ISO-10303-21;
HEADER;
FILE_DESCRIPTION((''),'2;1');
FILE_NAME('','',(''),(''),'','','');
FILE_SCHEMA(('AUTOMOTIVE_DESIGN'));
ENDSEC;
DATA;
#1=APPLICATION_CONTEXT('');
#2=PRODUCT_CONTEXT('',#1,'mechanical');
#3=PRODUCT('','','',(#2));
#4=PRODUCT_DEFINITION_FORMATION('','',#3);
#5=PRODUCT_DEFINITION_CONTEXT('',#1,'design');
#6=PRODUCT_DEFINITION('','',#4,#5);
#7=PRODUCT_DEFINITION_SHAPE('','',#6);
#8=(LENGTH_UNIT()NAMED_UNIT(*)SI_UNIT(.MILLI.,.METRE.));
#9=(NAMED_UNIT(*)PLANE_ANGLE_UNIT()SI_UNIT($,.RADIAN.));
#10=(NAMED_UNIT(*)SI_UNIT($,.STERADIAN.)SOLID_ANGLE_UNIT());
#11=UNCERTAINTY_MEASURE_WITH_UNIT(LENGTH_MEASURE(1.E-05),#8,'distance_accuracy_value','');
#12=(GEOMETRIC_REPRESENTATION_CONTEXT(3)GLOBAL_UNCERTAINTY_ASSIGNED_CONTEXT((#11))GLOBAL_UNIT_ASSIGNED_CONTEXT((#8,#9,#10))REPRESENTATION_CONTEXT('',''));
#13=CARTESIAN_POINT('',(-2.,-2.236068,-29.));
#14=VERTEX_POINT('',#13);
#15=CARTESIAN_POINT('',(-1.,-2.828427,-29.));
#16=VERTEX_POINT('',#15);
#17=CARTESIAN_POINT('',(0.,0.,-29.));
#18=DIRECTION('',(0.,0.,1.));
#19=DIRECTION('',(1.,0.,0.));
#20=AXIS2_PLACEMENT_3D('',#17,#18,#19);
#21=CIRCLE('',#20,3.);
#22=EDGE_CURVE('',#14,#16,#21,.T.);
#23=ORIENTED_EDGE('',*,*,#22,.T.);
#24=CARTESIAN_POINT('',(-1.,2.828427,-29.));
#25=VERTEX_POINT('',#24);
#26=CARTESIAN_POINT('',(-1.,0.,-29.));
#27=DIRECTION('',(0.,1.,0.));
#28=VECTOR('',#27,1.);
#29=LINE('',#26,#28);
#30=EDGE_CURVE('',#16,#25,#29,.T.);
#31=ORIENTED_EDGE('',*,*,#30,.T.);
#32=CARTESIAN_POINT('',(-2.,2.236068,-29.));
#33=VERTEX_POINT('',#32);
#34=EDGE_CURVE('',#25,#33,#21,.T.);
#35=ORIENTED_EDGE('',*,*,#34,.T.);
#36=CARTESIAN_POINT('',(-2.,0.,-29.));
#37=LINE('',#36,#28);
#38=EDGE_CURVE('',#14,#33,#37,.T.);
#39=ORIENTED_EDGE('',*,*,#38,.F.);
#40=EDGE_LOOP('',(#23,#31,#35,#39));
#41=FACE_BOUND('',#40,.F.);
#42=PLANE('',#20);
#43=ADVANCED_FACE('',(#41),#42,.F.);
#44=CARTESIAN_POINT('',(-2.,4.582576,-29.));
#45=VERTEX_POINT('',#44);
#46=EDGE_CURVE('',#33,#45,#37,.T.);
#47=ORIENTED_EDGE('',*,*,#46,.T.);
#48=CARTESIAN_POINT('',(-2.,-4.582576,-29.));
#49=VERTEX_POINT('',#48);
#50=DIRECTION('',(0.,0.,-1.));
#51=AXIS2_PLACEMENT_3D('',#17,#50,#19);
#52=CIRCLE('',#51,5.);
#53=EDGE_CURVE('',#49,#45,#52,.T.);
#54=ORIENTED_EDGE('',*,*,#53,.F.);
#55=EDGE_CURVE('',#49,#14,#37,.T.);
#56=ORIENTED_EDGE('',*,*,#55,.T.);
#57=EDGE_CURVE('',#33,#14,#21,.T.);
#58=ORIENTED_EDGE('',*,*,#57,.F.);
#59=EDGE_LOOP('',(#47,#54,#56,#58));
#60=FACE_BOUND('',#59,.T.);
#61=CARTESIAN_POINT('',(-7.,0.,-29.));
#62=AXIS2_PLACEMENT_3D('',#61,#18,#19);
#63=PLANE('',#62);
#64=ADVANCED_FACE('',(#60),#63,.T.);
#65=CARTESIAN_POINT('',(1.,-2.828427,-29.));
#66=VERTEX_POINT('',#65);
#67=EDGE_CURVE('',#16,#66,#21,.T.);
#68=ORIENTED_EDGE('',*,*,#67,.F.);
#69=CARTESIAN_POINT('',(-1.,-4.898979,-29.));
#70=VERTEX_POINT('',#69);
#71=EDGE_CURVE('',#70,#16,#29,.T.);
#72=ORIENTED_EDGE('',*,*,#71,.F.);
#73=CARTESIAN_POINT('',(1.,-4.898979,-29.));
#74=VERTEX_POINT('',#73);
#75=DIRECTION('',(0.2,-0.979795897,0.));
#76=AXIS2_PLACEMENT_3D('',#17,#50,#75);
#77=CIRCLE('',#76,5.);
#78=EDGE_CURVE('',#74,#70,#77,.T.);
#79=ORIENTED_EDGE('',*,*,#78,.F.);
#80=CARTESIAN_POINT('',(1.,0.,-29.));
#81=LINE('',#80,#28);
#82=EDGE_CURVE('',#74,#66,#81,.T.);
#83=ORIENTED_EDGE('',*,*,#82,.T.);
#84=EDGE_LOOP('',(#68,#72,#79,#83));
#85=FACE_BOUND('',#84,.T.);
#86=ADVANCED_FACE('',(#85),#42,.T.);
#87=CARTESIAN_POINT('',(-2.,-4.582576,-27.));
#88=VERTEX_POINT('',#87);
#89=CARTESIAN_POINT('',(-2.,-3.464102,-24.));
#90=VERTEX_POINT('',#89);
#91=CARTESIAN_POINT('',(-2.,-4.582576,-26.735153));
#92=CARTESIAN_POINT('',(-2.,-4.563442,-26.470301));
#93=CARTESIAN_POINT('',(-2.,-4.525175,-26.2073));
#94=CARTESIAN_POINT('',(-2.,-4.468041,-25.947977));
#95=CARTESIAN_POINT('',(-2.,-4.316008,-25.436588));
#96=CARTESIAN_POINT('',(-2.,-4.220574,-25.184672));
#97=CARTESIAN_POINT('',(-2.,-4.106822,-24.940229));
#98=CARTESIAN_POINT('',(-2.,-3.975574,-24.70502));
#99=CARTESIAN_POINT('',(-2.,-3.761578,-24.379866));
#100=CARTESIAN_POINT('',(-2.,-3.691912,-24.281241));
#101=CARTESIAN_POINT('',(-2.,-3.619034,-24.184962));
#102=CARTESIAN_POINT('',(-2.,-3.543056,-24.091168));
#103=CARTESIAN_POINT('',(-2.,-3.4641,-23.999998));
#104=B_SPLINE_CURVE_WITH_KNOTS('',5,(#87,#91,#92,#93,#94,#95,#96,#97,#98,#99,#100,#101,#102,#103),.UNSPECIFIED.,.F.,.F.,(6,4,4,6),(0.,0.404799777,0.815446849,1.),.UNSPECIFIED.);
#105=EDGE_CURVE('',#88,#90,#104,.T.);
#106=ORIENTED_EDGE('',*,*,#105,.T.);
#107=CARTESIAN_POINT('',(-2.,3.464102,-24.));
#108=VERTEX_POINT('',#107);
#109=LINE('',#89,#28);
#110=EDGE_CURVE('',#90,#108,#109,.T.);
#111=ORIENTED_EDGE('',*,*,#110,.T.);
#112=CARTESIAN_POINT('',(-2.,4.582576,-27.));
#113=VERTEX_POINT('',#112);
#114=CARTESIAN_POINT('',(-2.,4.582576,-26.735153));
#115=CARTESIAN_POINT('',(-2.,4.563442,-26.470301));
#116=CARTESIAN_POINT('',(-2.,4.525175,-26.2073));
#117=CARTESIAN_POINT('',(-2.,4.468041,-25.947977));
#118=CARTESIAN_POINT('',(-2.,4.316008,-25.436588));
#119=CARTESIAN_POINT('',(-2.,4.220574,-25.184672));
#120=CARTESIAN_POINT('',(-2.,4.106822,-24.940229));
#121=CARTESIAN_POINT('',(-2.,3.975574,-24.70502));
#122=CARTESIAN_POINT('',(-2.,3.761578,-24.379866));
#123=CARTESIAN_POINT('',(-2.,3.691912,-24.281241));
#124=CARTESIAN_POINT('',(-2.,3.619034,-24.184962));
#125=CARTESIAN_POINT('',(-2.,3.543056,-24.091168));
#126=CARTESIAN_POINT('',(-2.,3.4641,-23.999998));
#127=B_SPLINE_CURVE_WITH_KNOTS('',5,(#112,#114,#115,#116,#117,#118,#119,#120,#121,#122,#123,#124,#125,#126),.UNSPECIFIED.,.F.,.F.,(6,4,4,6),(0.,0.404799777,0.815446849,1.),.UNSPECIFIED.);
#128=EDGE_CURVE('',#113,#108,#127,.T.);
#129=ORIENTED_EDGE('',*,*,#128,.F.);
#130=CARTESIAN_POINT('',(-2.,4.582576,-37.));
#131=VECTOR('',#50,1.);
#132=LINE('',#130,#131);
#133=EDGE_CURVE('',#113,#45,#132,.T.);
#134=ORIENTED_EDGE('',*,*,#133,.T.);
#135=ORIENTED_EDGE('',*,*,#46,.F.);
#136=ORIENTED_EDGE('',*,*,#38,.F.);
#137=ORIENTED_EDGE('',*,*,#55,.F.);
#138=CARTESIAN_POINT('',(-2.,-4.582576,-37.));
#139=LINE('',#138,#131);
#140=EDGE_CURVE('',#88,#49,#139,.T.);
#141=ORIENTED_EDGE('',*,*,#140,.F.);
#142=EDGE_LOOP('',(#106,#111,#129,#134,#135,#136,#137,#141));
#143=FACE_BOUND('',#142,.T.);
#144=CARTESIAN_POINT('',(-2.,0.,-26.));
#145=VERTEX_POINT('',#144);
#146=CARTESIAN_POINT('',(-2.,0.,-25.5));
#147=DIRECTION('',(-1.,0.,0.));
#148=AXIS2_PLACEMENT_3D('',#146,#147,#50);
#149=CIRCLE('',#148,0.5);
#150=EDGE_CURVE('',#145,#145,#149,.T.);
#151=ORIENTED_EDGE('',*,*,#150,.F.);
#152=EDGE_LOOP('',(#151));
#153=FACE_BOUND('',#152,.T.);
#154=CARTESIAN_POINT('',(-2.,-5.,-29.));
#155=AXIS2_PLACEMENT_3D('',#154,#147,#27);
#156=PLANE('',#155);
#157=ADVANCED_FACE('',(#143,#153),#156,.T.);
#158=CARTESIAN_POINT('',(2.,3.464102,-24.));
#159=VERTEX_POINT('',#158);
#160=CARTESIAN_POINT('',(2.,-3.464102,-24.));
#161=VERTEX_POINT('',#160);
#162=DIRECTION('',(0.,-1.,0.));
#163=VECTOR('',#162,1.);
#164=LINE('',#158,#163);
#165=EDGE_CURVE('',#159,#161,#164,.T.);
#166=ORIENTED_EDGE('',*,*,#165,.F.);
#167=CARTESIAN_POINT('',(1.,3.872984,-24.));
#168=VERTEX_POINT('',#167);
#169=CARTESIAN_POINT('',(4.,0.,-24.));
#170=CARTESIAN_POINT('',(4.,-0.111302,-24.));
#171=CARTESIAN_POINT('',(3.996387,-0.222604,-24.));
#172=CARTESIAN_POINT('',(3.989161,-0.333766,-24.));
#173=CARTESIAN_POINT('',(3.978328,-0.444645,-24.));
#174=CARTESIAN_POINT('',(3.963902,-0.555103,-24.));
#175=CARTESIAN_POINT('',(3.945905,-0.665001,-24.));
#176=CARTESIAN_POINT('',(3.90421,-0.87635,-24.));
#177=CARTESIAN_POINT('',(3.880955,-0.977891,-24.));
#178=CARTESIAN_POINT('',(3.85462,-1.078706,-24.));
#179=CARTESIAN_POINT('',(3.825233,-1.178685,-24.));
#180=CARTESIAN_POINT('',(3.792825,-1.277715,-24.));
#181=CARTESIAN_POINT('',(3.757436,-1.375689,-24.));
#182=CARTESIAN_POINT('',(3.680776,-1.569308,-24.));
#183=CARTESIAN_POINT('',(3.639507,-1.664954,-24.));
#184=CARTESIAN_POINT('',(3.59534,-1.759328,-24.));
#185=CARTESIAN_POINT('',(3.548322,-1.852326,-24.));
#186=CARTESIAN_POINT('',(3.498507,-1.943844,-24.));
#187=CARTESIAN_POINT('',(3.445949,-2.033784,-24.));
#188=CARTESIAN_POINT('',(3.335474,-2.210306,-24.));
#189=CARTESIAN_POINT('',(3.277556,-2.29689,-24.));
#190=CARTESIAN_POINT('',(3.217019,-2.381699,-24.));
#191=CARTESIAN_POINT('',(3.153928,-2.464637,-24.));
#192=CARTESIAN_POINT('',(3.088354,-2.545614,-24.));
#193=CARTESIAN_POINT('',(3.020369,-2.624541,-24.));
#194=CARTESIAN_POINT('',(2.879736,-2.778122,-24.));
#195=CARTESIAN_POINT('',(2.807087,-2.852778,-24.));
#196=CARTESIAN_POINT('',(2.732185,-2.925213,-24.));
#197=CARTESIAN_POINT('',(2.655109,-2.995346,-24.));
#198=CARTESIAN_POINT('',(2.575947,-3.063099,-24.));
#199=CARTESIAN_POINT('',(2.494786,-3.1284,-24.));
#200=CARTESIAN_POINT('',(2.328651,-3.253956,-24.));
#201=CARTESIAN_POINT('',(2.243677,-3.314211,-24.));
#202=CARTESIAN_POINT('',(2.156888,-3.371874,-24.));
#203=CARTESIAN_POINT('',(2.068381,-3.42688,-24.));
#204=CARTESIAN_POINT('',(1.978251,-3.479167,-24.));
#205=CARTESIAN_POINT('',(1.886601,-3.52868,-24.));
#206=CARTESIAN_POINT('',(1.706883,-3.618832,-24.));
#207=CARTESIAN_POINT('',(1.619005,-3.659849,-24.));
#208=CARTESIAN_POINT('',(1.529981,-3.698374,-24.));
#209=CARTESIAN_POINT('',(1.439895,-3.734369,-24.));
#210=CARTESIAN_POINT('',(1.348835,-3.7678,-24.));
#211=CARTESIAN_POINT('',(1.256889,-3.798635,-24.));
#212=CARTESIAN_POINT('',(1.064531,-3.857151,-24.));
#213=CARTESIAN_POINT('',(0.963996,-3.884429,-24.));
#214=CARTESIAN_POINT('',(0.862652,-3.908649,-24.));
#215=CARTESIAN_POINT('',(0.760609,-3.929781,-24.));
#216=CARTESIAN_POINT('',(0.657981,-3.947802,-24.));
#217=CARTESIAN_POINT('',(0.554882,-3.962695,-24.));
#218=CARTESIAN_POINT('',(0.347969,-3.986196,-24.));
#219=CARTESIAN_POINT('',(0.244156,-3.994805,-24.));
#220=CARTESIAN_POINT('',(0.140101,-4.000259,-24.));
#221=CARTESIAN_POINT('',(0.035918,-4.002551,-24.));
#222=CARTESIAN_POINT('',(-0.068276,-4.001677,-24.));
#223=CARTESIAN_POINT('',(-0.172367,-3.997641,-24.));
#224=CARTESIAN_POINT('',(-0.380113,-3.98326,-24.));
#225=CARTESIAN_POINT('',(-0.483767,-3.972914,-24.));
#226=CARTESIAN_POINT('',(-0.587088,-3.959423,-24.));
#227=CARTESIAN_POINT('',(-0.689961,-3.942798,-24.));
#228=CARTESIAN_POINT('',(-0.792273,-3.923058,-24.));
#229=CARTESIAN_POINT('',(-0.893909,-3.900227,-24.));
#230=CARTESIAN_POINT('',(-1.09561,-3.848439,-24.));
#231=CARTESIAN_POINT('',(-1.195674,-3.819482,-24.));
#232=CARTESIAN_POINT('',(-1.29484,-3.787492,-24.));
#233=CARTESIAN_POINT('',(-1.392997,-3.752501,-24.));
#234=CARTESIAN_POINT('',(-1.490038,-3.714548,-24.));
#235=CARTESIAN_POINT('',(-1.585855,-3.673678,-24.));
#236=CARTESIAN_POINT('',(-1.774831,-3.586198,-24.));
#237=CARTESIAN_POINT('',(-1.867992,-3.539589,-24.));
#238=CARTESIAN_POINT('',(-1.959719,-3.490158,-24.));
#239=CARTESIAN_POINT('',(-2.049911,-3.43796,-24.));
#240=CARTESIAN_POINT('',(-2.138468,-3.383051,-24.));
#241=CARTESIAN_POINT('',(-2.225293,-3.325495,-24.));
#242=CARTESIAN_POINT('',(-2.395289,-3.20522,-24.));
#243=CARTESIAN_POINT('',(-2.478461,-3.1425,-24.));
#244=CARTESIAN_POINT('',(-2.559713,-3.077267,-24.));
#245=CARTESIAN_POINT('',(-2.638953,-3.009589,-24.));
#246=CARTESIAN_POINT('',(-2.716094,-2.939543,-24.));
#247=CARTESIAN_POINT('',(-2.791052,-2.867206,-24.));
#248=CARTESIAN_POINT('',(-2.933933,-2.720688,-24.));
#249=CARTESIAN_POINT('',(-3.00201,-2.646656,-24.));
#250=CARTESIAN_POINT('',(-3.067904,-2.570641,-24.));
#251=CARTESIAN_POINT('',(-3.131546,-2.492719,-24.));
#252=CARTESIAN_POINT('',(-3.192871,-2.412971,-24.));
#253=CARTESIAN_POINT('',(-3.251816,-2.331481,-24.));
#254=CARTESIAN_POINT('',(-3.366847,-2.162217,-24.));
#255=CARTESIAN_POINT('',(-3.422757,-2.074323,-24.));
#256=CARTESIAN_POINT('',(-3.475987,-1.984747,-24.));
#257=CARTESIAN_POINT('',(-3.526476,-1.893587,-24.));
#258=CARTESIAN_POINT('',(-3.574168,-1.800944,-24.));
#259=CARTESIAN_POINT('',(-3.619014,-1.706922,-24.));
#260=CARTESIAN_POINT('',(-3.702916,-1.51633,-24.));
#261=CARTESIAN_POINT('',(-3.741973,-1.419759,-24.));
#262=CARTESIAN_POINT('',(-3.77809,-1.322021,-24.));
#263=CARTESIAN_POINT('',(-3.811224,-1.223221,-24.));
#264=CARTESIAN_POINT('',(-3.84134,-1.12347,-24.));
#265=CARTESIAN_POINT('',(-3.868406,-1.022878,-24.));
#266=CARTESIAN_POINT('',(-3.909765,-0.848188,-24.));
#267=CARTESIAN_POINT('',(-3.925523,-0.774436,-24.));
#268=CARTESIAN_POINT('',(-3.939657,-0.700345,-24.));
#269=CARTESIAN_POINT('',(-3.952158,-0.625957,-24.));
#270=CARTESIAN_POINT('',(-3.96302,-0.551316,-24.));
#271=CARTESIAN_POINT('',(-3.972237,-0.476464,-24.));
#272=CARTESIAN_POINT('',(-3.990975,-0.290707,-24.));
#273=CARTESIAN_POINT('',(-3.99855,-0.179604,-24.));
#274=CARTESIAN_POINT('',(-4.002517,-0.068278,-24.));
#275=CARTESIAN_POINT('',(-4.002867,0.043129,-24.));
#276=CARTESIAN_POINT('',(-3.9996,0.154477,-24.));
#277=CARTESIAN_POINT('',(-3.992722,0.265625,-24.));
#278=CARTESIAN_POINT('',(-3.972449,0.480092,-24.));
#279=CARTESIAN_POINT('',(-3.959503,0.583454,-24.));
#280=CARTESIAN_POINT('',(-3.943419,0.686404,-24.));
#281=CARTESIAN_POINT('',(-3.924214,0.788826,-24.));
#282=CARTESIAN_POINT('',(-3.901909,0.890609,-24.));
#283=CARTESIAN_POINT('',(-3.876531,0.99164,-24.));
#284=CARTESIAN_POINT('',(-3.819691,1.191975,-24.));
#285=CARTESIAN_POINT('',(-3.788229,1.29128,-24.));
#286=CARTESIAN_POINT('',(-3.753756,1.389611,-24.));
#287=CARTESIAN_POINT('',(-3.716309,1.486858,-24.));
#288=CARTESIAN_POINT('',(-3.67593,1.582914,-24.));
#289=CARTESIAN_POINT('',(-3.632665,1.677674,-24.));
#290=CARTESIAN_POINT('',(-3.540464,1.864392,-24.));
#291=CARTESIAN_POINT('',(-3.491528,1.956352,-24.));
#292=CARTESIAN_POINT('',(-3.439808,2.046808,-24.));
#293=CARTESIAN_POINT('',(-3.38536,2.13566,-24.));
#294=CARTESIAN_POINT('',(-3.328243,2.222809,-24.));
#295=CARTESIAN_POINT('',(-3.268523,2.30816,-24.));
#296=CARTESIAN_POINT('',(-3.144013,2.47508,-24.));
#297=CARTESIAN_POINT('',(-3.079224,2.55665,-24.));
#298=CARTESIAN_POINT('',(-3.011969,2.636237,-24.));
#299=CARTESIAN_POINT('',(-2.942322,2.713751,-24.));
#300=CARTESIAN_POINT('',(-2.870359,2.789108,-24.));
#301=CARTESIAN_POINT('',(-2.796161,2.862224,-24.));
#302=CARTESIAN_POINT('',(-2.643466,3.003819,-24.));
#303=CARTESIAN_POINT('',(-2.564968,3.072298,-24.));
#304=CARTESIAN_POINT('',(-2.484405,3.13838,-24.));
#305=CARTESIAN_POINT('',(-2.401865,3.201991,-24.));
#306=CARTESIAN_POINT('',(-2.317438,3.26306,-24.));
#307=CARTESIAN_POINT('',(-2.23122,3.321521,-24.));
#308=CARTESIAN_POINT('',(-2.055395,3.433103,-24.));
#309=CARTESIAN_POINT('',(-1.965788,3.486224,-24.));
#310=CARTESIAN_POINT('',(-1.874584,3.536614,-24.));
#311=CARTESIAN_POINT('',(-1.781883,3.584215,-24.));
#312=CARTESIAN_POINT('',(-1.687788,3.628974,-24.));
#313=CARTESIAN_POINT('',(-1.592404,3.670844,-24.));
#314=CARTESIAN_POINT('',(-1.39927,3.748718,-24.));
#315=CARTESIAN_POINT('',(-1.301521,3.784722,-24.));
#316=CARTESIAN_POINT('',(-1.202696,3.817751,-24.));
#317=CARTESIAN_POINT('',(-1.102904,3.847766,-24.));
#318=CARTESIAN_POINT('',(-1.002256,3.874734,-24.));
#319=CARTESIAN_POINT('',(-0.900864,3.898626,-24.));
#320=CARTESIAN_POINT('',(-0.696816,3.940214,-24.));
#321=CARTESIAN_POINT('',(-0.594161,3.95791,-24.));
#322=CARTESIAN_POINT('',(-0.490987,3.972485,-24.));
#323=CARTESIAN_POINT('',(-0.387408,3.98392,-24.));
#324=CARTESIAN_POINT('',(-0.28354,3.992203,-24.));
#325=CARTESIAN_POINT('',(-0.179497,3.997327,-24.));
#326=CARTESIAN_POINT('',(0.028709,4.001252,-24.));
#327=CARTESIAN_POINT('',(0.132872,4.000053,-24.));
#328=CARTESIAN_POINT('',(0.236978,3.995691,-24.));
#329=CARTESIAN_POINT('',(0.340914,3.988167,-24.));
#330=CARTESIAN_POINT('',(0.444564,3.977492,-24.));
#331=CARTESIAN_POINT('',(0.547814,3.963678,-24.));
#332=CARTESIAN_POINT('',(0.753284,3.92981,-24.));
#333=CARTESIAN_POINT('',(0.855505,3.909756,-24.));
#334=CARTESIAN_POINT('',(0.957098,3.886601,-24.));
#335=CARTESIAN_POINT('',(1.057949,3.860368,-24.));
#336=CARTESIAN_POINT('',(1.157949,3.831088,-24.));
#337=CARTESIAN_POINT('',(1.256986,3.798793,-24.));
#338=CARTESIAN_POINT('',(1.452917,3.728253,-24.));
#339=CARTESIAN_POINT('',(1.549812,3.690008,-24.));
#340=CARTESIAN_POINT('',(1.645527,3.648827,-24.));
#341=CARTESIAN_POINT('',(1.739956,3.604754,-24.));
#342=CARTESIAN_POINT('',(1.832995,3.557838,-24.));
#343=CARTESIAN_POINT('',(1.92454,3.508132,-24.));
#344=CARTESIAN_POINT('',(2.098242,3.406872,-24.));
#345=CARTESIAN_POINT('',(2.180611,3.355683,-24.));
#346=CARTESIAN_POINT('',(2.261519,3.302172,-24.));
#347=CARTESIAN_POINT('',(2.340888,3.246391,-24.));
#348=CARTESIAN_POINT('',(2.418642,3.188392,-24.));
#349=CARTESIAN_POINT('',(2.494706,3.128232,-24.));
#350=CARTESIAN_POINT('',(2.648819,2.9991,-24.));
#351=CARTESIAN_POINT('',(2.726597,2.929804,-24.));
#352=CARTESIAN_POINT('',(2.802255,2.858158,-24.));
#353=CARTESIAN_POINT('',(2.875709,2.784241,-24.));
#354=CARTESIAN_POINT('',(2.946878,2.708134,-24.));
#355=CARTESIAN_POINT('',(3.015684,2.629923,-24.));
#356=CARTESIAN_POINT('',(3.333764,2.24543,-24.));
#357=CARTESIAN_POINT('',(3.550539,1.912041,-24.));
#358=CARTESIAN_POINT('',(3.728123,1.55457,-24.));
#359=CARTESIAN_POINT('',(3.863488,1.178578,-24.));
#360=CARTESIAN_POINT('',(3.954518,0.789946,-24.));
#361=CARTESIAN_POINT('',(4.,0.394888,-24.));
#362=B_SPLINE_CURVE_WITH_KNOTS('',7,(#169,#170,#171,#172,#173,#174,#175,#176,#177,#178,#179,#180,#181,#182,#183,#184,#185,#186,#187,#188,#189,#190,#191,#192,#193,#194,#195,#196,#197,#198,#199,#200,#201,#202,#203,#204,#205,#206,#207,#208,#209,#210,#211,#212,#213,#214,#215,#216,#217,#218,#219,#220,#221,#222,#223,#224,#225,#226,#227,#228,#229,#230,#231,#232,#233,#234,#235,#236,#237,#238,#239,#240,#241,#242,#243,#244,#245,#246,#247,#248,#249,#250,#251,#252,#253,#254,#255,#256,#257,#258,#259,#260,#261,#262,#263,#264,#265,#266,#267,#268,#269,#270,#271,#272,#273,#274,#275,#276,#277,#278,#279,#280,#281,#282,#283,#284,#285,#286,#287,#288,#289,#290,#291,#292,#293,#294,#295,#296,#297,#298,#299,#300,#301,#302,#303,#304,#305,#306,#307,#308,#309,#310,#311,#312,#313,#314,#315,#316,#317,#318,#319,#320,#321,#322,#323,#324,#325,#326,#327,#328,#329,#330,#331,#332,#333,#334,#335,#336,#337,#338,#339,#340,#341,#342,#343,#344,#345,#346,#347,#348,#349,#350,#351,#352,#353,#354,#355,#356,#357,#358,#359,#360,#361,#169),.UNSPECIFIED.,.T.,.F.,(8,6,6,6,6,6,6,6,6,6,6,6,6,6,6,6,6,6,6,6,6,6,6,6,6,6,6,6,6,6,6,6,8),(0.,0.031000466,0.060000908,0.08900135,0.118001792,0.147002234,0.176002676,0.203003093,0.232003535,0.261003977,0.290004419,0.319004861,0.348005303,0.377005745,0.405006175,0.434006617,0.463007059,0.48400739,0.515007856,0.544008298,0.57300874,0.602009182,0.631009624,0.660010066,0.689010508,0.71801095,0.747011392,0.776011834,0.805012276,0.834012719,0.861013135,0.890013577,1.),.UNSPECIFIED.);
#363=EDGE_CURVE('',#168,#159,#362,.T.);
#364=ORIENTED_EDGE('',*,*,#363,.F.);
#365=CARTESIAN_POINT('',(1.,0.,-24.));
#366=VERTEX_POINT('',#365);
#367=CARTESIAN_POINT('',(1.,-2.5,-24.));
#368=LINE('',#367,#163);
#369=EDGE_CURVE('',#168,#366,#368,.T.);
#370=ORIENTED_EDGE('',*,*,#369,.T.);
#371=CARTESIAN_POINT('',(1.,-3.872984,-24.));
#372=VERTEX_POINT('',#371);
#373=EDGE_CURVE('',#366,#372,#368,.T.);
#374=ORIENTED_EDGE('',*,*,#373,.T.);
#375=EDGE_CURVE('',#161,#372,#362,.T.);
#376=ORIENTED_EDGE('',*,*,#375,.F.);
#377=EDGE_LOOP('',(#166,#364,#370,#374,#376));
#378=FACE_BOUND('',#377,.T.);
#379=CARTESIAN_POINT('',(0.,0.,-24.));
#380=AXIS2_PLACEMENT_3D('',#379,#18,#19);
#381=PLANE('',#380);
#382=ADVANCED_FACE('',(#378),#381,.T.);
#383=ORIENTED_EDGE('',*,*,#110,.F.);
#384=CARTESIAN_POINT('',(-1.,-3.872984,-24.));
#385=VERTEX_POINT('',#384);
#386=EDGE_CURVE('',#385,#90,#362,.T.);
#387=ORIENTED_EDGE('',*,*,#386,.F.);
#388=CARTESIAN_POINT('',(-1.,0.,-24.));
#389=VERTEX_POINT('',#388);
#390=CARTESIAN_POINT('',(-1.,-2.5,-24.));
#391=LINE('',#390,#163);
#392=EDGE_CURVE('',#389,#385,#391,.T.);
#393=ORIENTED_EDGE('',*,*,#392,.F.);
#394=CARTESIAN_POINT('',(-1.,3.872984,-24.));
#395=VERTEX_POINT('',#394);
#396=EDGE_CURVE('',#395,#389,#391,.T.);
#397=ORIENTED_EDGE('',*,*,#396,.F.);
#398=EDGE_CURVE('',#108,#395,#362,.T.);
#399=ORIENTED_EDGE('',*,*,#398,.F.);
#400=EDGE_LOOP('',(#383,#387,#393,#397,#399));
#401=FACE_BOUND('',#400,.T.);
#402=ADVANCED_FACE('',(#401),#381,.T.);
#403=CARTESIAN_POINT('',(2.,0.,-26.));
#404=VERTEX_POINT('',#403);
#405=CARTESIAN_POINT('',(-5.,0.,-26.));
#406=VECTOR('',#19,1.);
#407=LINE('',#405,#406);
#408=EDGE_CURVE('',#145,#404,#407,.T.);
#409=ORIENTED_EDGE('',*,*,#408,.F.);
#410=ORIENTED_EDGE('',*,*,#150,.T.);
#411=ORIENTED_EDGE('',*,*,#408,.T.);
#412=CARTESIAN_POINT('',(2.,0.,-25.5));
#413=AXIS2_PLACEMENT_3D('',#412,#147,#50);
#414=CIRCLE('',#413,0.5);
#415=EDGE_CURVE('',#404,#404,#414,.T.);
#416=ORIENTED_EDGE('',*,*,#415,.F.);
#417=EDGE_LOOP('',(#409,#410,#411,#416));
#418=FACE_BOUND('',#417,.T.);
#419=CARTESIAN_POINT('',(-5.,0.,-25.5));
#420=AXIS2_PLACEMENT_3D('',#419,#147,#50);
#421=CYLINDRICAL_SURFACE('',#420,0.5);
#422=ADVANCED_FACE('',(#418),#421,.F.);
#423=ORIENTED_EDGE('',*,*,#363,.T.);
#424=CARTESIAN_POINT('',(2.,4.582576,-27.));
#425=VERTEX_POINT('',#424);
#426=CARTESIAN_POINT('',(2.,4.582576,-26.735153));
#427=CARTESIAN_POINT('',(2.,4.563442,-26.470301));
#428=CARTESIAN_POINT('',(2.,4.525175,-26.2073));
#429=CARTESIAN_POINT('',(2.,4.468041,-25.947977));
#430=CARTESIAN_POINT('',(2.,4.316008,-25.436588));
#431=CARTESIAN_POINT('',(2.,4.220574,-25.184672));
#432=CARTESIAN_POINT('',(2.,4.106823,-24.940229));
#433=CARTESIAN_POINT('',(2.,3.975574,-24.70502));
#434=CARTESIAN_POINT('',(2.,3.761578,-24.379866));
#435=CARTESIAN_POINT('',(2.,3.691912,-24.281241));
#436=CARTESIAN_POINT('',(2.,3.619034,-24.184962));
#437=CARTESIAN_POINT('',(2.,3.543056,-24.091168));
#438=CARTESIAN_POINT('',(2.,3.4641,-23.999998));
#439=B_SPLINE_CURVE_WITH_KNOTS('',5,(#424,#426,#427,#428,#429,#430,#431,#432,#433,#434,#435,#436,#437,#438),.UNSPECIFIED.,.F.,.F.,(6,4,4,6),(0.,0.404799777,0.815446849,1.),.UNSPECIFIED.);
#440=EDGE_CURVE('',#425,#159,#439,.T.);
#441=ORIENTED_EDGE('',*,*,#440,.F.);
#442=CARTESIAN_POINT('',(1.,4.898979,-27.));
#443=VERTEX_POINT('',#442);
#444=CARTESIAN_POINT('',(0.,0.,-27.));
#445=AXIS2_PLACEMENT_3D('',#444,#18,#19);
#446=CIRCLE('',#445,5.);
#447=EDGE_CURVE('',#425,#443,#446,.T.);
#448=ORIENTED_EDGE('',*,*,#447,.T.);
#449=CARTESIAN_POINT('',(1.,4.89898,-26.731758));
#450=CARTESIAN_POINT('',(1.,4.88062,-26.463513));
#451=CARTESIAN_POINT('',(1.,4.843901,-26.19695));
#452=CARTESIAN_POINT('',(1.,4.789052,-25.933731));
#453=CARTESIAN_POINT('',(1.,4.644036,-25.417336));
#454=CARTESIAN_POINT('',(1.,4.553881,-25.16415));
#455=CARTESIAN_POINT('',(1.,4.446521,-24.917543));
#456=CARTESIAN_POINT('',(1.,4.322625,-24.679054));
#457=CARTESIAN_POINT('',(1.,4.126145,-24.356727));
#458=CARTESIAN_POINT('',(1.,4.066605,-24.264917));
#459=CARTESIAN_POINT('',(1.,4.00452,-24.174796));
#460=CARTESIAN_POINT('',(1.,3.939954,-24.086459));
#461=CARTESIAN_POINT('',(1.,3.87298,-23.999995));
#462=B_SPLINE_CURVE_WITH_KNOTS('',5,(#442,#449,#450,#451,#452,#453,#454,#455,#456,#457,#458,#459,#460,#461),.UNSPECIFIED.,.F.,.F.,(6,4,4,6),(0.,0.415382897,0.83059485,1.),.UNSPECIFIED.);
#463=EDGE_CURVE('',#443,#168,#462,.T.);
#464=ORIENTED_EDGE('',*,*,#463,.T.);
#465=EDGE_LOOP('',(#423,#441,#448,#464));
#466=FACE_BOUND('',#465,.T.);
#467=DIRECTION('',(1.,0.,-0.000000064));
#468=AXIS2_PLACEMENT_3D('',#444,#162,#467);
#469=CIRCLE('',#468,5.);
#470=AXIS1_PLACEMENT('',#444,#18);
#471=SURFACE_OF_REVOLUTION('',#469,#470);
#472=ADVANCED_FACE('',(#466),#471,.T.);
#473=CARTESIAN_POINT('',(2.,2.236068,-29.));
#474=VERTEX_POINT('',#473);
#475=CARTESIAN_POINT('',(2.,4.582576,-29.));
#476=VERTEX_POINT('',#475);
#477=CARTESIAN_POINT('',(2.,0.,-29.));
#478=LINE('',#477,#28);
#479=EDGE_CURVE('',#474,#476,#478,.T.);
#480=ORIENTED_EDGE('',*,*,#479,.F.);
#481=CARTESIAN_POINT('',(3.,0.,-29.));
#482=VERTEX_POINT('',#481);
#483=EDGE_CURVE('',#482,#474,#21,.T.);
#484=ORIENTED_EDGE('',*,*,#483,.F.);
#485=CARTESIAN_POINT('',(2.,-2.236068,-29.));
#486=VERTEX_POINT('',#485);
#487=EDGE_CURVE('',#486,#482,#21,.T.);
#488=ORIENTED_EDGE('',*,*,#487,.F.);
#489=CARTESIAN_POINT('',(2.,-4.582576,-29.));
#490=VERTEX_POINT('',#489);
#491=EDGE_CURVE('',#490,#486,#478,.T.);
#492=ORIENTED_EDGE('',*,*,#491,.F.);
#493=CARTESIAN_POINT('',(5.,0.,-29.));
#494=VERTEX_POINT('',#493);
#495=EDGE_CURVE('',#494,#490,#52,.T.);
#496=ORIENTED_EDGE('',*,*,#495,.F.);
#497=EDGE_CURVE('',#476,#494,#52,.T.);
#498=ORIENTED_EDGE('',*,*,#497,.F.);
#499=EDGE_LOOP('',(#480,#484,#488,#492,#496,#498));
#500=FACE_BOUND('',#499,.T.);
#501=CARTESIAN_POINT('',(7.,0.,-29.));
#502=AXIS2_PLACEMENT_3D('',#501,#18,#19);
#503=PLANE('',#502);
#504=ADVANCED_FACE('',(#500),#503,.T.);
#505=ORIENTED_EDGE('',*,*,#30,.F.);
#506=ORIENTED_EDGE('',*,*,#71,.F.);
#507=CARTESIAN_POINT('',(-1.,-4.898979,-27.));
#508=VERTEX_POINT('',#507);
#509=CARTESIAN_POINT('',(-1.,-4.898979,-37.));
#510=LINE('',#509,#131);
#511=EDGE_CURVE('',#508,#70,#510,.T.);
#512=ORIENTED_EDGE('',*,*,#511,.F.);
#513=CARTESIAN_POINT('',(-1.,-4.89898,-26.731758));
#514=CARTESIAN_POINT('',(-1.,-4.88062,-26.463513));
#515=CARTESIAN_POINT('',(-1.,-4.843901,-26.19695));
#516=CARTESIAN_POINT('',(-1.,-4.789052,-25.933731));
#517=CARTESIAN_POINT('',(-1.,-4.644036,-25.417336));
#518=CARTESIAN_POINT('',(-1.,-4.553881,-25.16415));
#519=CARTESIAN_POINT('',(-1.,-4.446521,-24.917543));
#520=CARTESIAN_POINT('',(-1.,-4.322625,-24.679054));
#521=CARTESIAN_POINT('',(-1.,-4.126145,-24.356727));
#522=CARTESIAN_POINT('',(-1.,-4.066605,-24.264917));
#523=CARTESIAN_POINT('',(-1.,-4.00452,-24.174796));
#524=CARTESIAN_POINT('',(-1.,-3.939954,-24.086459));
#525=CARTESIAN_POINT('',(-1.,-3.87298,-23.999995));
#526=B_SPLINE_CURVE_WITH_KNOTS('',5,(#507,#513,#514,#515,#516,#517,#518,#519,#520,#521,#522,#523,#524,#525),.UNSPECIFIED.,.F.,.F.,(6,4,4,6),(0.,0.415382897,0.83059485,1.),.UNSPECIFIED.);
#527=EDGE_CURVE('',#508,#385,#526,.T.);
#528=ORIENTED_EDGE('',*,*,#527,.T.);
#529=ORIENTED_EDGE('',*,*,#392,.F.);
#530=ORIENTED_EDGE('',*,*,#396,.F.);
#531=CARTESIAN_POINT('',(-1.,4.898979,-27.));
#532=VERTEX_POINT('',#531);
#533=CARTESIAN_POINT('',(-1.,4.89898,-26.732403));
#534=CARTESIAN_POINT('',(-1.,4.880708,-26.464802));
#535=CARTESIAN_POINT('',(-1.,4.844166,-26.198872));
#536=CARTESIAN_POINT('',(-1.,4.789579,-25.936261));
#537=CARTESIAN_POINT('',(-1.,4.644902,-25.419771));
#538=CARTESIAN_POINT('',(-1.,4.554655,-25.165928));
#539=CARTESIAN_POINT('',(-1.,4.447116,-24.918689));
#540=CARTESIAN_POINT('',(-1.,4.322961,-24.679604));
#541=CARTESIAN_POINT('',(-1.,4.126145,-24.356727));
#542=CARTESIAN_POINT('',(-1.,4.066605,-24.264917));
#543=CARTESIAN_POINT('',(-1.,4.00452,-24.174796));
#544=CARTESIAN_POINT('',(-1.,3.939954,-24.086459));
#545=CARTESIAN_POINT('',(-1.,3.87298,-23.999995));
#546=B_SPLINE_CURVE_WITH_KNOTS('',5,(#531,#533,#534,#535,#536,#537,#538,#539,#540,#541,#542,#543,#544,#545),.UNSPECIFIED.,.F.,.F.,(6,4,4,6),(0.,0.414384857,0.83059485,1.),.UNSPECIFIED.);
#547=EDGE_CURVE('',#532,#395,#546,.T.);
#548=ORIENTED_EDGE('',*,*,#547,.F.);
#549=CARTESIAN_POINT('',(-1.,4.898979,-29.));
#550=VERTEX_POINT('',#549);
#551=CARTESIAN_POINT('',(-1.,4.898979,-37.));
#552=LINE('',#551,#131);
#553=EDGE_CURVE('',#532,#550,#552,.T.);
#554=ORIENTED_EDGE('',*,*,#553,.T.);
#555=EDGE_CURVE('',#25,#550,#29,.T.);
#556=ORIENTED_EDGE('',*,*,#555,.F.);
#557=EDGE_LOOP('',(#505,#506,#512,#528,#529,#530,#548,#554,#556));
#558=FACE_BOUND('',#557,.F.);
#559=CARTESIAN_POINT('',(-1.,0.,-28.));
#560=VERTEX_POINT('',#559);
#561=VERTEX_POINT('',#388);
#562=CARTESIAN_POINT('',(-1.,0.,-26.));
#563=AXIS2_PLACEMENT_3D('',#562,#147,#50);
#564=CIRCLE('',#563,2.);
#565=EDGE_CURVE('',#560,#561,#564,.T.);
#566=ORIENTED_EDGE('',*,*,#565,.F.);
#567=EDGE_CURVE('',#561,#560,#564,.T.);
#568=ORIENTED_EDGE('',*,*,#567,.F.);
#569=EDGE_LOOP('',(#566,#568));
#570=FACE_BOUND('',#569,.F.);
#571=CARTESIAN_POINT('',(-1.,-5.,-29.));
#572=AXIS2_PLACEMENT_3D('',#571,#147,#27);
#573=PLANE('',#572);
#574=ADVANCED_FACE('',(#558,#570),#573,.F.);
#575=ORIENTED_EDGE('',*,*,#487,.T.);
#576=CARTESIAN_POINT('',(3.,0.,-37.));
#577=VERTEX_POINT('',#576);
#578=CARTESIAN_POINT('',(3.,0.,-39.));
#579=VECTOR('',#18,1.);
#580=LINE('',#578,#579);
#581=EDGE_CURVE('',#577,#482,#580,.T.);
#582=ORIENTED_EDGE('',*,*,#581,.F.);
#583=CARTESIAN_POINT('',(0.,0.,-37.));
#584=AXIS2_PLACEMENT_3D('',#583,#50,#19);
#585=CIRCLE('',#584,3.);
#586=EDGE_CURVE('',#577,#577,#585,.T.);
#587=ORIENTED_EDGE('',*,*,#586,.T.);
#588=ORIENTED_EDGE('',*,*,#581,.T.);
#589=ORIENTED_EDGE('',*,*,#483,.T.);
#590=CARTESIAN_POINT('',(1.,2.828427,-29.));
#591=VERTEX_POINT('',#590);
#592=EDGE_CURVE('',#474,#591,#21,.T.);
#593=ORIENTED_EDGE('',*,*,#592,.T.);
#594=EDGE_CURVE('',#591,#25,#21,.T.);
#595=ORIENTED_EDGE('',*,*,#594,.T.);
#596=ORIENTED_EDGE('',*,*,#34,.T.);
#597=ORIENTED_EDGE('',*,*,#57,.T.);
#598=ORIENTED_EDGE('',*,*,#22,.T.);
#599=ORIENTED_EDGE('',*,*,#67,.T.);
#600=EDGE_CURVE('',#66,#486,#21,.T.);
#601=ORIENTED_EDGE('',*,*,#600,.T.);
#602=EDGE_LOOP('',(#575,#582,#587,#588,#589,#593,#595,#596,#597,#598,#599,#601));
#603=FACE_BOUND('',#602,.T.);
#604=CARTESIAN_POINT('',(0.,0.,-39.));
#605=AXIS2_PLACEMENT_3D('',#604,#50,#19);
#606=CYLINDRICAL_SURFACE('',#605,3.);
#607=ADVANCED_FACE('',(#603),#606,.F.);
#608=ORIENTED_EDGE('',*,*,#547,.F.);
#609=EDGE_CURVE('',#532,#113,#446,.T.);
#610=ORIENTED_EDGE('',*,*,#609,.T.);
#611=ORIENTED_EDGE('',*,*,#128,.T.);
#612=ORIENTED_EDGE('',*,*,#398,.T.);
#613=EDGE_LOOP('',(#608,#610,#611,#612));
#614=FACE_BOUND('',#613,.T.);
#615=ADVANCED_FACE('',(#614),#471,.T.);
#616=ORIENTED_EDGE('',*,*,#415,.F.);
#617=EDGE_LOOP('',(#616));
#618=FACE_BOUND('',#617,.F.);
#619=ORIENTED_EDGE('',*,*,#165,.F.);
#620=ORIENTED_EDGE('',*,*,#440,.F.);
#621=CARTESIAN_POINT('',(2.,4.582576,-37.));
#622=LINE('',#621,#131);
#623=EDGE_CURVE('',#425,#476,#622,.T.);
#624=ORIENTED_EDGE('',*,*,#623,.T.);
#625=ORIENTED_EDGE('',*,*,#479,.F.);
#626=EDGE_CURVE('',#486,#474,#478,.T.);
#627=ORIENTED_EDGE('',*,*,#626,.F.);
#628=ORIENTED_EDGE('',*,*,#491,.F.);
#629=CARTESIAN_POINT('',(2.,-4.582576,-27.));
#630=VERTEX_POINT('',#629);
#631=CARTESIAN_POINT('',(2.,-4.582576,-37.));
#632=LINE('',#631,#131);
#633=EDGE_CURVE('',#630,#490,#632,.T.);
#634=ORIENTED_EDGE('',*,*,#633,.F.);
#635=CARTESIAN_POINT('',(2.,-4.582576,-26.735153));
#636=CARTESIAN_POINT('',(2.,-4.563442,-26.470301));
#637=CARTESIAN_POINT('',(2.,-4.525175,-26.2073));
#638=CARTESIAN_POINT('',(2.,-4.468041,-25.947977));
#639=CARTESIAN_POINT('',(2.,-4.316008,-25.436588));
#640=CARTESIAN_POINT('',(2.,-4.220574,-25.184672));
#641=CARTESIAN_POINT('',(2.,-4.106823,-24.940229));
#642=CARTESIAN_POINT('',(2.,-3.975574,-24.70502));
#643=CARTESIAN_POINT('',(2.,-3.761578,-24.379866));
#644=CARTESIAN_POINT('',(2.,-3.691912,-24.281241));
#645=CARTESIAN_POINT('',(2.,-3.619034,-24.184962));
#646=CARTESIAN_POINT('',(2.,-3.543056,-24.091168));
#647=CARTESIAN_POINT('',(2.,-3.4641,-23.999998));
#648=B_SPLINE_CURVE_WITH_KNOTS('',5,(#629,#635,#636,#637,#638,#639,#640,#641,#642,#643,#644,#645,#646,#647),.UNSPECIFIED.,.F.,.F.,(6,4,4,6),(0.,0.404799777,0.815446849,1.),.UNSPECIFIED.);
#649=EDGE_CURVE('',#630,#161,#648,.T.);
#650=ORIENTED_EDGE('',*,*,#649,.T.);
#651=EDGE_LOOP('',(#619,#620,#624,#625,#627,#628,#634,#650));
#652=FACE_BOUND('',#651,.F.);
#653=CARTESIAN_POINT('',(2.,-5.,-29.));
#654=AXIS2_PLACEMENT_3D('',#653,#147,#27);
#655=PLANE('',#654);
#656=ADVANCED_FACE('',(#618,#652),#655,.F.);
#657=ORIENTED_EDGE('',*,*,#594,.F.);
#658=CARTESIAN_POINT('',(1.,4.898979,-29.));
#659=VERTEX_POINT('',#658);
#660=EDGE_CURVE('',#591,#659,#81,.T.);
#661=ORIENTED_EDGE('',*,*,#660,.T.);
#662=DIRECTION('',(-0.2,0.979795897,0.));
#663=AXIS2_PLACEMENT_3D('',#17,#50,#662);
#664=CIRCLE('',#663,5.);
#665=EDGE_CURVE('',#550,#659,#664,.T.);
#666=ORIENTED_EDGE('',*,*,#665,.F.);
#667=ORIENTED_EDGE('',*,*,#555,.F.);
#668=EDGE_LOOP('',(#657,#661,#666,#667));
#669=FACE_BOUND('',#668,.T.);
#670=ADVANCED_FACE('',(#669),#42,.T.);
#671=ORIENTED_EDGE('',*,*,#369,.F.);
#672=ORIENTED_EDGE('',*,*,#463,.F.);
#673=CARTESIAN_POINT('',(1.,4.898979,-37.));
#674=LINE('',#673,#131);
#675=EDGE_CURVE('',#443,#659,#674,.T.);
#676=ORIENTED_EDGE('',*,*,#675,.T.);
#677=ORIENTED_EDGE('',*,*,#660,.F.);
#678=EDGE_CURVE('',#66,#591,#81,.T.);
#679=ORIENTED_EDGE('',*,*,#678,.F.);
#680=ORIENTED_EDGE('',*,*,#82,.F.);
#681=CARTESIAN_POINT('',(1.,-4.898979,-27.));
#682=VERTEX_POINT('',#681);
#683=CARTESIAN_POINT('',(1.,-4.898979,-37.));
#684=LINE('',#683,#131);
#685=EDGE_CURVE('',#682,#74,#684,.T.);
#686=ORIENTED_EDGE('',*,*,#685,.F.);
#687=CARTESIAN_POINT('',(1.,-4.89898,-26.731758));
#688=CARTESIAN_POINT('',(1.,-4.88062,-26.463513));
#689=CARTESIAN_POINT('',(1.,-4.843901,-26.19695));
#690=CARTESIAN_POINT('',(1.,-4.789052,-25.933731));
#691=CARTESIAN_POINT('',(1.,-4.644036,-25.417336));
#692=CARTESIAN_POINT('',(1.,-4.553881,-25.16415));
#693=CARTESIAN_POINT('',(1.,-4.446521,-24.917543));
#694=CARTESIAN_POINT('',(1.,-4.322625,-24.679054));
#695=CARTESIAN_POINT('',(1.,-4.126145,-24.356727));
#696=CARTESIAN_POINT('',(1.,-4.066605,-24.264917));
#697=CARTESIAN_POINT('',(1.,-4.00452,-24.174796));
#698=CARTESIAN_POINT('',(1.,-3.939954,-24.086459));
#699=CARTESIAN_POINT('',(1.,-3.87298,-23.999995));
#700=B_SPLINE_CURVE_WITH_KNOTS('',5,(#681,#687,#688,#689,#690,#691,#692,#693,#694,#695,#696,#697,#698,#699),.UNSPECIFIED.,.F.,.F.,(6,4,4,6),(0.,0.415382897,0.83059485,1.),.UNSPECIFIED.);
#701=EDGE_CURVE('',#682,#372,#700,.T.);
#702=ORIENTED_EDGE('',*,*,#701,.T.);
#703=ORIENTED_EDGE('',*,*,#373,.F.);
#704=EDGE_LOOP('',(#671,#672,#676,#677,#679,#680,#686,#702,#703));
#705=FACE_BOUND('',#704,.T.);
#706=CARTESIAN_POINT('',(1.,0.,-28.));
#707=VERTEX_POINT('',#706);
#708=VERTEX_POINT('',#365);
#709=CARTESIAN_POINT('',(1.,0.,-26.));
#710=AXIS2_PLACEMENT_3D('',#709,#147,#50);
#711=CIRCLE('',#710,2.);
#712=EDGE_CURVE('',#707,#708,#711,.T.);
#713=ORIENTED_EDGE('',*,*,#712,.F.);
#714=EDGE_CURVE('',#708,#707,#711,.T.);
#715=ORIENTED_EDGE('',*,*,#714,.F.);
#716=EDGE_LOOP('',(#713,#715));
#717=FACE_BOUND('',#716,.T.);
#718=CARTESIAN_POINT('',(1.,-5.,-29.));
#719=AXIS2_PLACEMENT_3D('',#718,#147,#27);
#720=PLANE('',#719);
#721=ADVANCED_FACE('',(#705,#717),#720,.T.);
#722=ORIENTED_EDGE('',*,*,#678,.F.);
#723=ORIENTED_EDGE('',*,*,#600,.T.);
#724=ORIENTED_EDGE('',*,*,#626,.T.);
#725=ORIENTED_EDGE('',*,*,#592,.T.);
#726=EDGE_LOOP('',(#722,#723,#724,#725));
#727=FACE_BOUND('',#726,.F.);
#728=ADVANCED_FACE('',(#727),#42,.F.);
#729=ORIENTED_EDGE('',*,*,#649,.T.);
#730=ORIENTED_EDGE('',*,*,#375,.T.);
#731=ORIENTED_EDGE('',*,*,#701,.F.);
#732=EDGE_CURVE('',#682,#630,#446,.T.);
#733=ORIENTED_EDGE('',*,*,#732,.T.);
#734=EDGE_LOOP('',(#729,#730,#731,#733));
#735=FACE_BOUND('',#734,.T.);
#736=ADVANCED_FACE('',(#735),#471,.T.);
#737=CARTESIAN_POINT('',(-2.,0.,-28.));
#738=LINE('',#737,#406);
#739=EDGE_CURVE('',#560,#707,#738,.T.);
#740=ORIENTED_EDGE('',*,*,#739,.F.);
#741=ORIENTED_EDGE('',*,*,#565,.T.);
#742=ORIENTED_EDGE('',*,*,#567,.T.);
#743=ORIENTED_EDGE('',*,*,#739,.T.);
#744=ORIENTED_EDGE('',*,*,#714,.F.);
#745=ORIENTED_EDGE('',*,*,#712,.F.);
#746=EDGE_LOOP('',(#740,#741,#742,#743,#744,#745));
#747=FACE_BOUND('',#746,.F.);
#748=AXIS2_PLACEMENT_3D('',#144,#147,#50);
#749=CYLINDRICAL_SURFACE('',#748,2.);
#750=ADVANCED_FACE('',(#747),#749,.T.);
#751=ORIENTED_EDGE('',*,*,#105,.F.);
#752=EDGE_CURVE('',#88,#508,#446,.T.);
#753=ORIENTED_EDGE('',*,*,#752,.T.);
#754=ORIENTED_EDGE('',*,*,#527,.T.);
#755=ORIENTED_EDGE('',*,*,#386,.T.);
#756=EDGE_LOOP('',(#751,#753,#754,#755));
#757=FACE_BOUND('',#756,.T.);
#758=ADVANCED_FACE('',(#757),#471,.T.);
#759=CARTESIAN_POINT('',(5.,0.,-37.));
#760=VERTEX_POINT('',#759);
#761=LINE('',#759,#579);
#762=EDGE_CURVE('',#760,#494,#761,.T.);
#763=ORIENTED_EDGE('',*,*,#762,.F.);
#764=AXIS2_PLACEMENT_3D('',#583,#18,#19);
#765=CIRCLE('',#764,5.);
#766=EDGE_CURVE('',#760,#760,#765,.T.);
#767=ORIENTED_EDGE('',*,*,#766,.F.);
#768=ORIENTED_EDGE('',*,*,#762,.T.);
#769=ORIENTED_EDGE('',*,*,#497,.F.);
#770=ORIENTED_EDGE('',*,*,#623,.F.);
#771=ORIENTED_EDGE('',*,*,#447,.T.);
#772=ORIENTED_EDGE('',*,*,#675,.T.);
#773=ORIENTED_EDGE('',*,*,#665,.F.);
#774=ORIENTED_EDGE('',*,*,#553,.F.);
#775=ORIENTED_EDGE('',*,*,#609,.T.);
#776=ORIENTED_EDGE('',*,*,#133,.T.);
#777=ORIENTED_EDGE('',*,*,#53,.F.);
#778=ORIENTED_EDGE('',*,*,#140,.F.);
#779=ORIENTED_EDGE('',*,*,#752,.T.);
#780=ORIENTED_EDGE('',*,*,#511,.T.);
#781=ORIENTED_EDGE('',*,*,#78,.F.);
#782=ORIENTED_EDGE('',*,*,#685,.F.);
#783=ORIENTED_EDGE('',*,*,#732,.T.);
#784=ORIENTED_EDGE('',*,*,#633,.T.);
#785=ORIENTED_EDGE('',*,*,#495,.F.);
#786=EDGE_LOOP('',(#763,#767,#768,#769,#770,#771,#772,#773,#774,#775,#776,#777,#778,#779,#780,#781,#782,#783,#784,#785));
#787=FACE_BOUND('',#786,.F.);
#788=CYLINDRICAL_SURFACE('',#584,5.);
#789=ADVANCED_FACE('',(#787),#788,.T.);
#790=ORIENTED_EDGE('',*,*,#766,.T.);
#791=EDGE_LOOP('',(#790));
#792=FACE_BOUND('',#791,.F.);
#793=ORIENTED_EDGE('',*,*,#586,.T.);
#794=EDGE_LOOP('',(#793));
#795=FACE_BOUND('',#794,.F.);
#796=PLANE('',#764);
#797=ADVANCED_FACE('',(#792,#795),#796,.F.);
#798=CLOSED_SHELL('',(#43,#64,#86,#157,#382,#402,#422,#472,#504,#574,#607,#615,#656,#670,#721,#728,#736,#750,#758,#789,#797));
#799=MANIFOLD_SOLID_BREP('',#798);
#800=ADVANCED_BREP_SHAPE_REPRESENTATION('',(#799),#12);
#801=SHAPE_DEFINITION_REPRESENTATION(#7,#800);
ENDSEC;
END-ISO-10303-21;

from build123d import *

# Parameters (mm, degrees)
CYLINDER016_R     = 0.5
CYLINDER016_DEPTH = 10
CYLINDER014_R     = 2
CYLINDER014_DEPTH = 4
CYLINDER015_R     = 3
CYLINDER015_DEPTH = 10
BOX003_W          = 10
BOX003_H          = 10
BOX003_DEPTH      = 10
BOX004_W          = 2
BOX004_H          = 10
BOX004_DEPTH      = 10
BOX002_W          = 10
BOX002_H          = 10
BOX002_DEPTH      = 10
CYLINDER013_R     = 5
CYLINDER013_DEPTH = 10
CYLINDER012_R     = 5
CYLINDER012_DEPTH = 10


with BuildPart() as cylinder016:
    # Cylinder016 → Cylinder016 (new body)
    with BuildSketch(Plane(origin=(-5, 0, -7), x_dir=(0, 0, -1), z_dir=(1, 0, 0))):
        Circle(CYLINDER016_R)
    extrude(amount=CYLINDER016_DEPTH)


with BuildPart() as cylinder014:
    # Cylinder014 → Cylinder014 (new body)
    with BuildSketch(Plane(origin=(-2, -50, 1), x_dir=(0, 0, -1), z_dir=(1, 0, 0))):
        Circle(CYLINDER014_R)
    extrude(amount=CYLINDER014_DEPTH)


with BuildPart() as cylinder015:
    # Cylinder015 → Cylinder015 (new body)
    with BuildSketch(Plane(origin=(0, -50, -12), x_dir=(1, 0, 0), z_dir=(0, 0, 1))):
        Circle(CYLINDER015_R)
    extrude(amount=CYLINDER015_DEPTH)


with BuildPart() as cube003:
    # Box003 → Box003 (new body)
    with BuildSketch(Plane(origin=(-12, -55, -2), x_dir=(1, 0, 0), z_dir=(0, 0, 1))):
        with Locations((5, 5)):
            Rectangle(BOX003_W, BOX003_H)
    extrude(amount=BOX003_DEPTH)


with BuildPart() as cube004:
    # Box004 → Box004 (new body)
    with BuildSketch(Plane(origin=(-1, -55, -2), x_dir=(1, 0, 0), z_dir=(0, 0, 1))):
        with Locations((1, 5)):
            Rectangle(BOX004_W, BOX004_H)
    extrude(amount=BOX004_DEPTH)


with BuildPart() as cube002:
    # Box002 → Box002 (new body)
    with BuildSketch(Plane(origin=(2, -55, -2), x_dir=(1, 0, 0), z_dir=(0, 0, 1))):
        with Locations((5, 5)):
            Rectangle(BOX002_W, BOX002_H)
    extrude(amount=BOX002_DEPTH)


with BuildPart() as cylinder013:
    # Cylinder013 → Cylinder013 (new body)
    with BuildSketch(Plane(origin=(0, -50, -10), x_dir=(1, 0, 0), z_dir=(0, 0, 1))):
        Circle(CYLINDER013_R)
    extrude(amount=CYLINDER013_DEPTH)


with BuildPart() as sphere004:
    # Sphere004 → Sphere004 (revolve)
    with BuildSketch(Plane.XZ.offset(50)):
        with BuildLine():
            ThreePointArc((5, 0), (3.535534, 3.535534), (0, 5))
            Line((0, 5), (0, 0))
            Line((0, 0), (5, 0))
        make_face()
    revolve(axis=Axis((0, -50, 0), (0, 0, 1)))


with BuildPart() as cut013:
    # Cylinder012 → Cylinder012 (new body)
    with BuildSketch(Plane(origin=(0, -50, -7), x_dir=(1, 0, 0), z_dir=(0, 0, 1))):
        Circle(CYLINDER012_R)
    extrude(amount=CYLINDER012_DEPTH)

    # Common002: intersect Sphere004
    add(sphere004.part, mode=Mode.INTERSECT)

    # Fusion004: union Cylinder013
    add(cylinder013.part)

    # Cut009: cut Cube002
    add(cube002.part, mode=Mode.SUBTRACT)

    # Cut010: cut Cube004
    add(cube004.part, mode=Mode.SUBTRACT)

    # Cut011: cut Cube003
    add(cube003.part, mode=Mode.SUBTRACT)

    # Cut012: cut Cylinder015
    add(cylinder015.part, mode=Mode.SUBTRACT)

    # Fusion005: union Cylinder014
    add(cylinder014.part)


with BuildPart() as cut013_1:
    # Fusion005001 placement: moved
    add(cut013.part.moved(Location((0, 50, -8.5))))

    # Cut013: cut Cylinder016
    add(cylinder016.part, mode=Mode.SUBTRACT)


with BuildPart() as cut013_2:
    # Cut013 placement: moved
    add(cut013_1.part.moved(Location((0, 0, -18.5))))


solid = cut013_2.part
